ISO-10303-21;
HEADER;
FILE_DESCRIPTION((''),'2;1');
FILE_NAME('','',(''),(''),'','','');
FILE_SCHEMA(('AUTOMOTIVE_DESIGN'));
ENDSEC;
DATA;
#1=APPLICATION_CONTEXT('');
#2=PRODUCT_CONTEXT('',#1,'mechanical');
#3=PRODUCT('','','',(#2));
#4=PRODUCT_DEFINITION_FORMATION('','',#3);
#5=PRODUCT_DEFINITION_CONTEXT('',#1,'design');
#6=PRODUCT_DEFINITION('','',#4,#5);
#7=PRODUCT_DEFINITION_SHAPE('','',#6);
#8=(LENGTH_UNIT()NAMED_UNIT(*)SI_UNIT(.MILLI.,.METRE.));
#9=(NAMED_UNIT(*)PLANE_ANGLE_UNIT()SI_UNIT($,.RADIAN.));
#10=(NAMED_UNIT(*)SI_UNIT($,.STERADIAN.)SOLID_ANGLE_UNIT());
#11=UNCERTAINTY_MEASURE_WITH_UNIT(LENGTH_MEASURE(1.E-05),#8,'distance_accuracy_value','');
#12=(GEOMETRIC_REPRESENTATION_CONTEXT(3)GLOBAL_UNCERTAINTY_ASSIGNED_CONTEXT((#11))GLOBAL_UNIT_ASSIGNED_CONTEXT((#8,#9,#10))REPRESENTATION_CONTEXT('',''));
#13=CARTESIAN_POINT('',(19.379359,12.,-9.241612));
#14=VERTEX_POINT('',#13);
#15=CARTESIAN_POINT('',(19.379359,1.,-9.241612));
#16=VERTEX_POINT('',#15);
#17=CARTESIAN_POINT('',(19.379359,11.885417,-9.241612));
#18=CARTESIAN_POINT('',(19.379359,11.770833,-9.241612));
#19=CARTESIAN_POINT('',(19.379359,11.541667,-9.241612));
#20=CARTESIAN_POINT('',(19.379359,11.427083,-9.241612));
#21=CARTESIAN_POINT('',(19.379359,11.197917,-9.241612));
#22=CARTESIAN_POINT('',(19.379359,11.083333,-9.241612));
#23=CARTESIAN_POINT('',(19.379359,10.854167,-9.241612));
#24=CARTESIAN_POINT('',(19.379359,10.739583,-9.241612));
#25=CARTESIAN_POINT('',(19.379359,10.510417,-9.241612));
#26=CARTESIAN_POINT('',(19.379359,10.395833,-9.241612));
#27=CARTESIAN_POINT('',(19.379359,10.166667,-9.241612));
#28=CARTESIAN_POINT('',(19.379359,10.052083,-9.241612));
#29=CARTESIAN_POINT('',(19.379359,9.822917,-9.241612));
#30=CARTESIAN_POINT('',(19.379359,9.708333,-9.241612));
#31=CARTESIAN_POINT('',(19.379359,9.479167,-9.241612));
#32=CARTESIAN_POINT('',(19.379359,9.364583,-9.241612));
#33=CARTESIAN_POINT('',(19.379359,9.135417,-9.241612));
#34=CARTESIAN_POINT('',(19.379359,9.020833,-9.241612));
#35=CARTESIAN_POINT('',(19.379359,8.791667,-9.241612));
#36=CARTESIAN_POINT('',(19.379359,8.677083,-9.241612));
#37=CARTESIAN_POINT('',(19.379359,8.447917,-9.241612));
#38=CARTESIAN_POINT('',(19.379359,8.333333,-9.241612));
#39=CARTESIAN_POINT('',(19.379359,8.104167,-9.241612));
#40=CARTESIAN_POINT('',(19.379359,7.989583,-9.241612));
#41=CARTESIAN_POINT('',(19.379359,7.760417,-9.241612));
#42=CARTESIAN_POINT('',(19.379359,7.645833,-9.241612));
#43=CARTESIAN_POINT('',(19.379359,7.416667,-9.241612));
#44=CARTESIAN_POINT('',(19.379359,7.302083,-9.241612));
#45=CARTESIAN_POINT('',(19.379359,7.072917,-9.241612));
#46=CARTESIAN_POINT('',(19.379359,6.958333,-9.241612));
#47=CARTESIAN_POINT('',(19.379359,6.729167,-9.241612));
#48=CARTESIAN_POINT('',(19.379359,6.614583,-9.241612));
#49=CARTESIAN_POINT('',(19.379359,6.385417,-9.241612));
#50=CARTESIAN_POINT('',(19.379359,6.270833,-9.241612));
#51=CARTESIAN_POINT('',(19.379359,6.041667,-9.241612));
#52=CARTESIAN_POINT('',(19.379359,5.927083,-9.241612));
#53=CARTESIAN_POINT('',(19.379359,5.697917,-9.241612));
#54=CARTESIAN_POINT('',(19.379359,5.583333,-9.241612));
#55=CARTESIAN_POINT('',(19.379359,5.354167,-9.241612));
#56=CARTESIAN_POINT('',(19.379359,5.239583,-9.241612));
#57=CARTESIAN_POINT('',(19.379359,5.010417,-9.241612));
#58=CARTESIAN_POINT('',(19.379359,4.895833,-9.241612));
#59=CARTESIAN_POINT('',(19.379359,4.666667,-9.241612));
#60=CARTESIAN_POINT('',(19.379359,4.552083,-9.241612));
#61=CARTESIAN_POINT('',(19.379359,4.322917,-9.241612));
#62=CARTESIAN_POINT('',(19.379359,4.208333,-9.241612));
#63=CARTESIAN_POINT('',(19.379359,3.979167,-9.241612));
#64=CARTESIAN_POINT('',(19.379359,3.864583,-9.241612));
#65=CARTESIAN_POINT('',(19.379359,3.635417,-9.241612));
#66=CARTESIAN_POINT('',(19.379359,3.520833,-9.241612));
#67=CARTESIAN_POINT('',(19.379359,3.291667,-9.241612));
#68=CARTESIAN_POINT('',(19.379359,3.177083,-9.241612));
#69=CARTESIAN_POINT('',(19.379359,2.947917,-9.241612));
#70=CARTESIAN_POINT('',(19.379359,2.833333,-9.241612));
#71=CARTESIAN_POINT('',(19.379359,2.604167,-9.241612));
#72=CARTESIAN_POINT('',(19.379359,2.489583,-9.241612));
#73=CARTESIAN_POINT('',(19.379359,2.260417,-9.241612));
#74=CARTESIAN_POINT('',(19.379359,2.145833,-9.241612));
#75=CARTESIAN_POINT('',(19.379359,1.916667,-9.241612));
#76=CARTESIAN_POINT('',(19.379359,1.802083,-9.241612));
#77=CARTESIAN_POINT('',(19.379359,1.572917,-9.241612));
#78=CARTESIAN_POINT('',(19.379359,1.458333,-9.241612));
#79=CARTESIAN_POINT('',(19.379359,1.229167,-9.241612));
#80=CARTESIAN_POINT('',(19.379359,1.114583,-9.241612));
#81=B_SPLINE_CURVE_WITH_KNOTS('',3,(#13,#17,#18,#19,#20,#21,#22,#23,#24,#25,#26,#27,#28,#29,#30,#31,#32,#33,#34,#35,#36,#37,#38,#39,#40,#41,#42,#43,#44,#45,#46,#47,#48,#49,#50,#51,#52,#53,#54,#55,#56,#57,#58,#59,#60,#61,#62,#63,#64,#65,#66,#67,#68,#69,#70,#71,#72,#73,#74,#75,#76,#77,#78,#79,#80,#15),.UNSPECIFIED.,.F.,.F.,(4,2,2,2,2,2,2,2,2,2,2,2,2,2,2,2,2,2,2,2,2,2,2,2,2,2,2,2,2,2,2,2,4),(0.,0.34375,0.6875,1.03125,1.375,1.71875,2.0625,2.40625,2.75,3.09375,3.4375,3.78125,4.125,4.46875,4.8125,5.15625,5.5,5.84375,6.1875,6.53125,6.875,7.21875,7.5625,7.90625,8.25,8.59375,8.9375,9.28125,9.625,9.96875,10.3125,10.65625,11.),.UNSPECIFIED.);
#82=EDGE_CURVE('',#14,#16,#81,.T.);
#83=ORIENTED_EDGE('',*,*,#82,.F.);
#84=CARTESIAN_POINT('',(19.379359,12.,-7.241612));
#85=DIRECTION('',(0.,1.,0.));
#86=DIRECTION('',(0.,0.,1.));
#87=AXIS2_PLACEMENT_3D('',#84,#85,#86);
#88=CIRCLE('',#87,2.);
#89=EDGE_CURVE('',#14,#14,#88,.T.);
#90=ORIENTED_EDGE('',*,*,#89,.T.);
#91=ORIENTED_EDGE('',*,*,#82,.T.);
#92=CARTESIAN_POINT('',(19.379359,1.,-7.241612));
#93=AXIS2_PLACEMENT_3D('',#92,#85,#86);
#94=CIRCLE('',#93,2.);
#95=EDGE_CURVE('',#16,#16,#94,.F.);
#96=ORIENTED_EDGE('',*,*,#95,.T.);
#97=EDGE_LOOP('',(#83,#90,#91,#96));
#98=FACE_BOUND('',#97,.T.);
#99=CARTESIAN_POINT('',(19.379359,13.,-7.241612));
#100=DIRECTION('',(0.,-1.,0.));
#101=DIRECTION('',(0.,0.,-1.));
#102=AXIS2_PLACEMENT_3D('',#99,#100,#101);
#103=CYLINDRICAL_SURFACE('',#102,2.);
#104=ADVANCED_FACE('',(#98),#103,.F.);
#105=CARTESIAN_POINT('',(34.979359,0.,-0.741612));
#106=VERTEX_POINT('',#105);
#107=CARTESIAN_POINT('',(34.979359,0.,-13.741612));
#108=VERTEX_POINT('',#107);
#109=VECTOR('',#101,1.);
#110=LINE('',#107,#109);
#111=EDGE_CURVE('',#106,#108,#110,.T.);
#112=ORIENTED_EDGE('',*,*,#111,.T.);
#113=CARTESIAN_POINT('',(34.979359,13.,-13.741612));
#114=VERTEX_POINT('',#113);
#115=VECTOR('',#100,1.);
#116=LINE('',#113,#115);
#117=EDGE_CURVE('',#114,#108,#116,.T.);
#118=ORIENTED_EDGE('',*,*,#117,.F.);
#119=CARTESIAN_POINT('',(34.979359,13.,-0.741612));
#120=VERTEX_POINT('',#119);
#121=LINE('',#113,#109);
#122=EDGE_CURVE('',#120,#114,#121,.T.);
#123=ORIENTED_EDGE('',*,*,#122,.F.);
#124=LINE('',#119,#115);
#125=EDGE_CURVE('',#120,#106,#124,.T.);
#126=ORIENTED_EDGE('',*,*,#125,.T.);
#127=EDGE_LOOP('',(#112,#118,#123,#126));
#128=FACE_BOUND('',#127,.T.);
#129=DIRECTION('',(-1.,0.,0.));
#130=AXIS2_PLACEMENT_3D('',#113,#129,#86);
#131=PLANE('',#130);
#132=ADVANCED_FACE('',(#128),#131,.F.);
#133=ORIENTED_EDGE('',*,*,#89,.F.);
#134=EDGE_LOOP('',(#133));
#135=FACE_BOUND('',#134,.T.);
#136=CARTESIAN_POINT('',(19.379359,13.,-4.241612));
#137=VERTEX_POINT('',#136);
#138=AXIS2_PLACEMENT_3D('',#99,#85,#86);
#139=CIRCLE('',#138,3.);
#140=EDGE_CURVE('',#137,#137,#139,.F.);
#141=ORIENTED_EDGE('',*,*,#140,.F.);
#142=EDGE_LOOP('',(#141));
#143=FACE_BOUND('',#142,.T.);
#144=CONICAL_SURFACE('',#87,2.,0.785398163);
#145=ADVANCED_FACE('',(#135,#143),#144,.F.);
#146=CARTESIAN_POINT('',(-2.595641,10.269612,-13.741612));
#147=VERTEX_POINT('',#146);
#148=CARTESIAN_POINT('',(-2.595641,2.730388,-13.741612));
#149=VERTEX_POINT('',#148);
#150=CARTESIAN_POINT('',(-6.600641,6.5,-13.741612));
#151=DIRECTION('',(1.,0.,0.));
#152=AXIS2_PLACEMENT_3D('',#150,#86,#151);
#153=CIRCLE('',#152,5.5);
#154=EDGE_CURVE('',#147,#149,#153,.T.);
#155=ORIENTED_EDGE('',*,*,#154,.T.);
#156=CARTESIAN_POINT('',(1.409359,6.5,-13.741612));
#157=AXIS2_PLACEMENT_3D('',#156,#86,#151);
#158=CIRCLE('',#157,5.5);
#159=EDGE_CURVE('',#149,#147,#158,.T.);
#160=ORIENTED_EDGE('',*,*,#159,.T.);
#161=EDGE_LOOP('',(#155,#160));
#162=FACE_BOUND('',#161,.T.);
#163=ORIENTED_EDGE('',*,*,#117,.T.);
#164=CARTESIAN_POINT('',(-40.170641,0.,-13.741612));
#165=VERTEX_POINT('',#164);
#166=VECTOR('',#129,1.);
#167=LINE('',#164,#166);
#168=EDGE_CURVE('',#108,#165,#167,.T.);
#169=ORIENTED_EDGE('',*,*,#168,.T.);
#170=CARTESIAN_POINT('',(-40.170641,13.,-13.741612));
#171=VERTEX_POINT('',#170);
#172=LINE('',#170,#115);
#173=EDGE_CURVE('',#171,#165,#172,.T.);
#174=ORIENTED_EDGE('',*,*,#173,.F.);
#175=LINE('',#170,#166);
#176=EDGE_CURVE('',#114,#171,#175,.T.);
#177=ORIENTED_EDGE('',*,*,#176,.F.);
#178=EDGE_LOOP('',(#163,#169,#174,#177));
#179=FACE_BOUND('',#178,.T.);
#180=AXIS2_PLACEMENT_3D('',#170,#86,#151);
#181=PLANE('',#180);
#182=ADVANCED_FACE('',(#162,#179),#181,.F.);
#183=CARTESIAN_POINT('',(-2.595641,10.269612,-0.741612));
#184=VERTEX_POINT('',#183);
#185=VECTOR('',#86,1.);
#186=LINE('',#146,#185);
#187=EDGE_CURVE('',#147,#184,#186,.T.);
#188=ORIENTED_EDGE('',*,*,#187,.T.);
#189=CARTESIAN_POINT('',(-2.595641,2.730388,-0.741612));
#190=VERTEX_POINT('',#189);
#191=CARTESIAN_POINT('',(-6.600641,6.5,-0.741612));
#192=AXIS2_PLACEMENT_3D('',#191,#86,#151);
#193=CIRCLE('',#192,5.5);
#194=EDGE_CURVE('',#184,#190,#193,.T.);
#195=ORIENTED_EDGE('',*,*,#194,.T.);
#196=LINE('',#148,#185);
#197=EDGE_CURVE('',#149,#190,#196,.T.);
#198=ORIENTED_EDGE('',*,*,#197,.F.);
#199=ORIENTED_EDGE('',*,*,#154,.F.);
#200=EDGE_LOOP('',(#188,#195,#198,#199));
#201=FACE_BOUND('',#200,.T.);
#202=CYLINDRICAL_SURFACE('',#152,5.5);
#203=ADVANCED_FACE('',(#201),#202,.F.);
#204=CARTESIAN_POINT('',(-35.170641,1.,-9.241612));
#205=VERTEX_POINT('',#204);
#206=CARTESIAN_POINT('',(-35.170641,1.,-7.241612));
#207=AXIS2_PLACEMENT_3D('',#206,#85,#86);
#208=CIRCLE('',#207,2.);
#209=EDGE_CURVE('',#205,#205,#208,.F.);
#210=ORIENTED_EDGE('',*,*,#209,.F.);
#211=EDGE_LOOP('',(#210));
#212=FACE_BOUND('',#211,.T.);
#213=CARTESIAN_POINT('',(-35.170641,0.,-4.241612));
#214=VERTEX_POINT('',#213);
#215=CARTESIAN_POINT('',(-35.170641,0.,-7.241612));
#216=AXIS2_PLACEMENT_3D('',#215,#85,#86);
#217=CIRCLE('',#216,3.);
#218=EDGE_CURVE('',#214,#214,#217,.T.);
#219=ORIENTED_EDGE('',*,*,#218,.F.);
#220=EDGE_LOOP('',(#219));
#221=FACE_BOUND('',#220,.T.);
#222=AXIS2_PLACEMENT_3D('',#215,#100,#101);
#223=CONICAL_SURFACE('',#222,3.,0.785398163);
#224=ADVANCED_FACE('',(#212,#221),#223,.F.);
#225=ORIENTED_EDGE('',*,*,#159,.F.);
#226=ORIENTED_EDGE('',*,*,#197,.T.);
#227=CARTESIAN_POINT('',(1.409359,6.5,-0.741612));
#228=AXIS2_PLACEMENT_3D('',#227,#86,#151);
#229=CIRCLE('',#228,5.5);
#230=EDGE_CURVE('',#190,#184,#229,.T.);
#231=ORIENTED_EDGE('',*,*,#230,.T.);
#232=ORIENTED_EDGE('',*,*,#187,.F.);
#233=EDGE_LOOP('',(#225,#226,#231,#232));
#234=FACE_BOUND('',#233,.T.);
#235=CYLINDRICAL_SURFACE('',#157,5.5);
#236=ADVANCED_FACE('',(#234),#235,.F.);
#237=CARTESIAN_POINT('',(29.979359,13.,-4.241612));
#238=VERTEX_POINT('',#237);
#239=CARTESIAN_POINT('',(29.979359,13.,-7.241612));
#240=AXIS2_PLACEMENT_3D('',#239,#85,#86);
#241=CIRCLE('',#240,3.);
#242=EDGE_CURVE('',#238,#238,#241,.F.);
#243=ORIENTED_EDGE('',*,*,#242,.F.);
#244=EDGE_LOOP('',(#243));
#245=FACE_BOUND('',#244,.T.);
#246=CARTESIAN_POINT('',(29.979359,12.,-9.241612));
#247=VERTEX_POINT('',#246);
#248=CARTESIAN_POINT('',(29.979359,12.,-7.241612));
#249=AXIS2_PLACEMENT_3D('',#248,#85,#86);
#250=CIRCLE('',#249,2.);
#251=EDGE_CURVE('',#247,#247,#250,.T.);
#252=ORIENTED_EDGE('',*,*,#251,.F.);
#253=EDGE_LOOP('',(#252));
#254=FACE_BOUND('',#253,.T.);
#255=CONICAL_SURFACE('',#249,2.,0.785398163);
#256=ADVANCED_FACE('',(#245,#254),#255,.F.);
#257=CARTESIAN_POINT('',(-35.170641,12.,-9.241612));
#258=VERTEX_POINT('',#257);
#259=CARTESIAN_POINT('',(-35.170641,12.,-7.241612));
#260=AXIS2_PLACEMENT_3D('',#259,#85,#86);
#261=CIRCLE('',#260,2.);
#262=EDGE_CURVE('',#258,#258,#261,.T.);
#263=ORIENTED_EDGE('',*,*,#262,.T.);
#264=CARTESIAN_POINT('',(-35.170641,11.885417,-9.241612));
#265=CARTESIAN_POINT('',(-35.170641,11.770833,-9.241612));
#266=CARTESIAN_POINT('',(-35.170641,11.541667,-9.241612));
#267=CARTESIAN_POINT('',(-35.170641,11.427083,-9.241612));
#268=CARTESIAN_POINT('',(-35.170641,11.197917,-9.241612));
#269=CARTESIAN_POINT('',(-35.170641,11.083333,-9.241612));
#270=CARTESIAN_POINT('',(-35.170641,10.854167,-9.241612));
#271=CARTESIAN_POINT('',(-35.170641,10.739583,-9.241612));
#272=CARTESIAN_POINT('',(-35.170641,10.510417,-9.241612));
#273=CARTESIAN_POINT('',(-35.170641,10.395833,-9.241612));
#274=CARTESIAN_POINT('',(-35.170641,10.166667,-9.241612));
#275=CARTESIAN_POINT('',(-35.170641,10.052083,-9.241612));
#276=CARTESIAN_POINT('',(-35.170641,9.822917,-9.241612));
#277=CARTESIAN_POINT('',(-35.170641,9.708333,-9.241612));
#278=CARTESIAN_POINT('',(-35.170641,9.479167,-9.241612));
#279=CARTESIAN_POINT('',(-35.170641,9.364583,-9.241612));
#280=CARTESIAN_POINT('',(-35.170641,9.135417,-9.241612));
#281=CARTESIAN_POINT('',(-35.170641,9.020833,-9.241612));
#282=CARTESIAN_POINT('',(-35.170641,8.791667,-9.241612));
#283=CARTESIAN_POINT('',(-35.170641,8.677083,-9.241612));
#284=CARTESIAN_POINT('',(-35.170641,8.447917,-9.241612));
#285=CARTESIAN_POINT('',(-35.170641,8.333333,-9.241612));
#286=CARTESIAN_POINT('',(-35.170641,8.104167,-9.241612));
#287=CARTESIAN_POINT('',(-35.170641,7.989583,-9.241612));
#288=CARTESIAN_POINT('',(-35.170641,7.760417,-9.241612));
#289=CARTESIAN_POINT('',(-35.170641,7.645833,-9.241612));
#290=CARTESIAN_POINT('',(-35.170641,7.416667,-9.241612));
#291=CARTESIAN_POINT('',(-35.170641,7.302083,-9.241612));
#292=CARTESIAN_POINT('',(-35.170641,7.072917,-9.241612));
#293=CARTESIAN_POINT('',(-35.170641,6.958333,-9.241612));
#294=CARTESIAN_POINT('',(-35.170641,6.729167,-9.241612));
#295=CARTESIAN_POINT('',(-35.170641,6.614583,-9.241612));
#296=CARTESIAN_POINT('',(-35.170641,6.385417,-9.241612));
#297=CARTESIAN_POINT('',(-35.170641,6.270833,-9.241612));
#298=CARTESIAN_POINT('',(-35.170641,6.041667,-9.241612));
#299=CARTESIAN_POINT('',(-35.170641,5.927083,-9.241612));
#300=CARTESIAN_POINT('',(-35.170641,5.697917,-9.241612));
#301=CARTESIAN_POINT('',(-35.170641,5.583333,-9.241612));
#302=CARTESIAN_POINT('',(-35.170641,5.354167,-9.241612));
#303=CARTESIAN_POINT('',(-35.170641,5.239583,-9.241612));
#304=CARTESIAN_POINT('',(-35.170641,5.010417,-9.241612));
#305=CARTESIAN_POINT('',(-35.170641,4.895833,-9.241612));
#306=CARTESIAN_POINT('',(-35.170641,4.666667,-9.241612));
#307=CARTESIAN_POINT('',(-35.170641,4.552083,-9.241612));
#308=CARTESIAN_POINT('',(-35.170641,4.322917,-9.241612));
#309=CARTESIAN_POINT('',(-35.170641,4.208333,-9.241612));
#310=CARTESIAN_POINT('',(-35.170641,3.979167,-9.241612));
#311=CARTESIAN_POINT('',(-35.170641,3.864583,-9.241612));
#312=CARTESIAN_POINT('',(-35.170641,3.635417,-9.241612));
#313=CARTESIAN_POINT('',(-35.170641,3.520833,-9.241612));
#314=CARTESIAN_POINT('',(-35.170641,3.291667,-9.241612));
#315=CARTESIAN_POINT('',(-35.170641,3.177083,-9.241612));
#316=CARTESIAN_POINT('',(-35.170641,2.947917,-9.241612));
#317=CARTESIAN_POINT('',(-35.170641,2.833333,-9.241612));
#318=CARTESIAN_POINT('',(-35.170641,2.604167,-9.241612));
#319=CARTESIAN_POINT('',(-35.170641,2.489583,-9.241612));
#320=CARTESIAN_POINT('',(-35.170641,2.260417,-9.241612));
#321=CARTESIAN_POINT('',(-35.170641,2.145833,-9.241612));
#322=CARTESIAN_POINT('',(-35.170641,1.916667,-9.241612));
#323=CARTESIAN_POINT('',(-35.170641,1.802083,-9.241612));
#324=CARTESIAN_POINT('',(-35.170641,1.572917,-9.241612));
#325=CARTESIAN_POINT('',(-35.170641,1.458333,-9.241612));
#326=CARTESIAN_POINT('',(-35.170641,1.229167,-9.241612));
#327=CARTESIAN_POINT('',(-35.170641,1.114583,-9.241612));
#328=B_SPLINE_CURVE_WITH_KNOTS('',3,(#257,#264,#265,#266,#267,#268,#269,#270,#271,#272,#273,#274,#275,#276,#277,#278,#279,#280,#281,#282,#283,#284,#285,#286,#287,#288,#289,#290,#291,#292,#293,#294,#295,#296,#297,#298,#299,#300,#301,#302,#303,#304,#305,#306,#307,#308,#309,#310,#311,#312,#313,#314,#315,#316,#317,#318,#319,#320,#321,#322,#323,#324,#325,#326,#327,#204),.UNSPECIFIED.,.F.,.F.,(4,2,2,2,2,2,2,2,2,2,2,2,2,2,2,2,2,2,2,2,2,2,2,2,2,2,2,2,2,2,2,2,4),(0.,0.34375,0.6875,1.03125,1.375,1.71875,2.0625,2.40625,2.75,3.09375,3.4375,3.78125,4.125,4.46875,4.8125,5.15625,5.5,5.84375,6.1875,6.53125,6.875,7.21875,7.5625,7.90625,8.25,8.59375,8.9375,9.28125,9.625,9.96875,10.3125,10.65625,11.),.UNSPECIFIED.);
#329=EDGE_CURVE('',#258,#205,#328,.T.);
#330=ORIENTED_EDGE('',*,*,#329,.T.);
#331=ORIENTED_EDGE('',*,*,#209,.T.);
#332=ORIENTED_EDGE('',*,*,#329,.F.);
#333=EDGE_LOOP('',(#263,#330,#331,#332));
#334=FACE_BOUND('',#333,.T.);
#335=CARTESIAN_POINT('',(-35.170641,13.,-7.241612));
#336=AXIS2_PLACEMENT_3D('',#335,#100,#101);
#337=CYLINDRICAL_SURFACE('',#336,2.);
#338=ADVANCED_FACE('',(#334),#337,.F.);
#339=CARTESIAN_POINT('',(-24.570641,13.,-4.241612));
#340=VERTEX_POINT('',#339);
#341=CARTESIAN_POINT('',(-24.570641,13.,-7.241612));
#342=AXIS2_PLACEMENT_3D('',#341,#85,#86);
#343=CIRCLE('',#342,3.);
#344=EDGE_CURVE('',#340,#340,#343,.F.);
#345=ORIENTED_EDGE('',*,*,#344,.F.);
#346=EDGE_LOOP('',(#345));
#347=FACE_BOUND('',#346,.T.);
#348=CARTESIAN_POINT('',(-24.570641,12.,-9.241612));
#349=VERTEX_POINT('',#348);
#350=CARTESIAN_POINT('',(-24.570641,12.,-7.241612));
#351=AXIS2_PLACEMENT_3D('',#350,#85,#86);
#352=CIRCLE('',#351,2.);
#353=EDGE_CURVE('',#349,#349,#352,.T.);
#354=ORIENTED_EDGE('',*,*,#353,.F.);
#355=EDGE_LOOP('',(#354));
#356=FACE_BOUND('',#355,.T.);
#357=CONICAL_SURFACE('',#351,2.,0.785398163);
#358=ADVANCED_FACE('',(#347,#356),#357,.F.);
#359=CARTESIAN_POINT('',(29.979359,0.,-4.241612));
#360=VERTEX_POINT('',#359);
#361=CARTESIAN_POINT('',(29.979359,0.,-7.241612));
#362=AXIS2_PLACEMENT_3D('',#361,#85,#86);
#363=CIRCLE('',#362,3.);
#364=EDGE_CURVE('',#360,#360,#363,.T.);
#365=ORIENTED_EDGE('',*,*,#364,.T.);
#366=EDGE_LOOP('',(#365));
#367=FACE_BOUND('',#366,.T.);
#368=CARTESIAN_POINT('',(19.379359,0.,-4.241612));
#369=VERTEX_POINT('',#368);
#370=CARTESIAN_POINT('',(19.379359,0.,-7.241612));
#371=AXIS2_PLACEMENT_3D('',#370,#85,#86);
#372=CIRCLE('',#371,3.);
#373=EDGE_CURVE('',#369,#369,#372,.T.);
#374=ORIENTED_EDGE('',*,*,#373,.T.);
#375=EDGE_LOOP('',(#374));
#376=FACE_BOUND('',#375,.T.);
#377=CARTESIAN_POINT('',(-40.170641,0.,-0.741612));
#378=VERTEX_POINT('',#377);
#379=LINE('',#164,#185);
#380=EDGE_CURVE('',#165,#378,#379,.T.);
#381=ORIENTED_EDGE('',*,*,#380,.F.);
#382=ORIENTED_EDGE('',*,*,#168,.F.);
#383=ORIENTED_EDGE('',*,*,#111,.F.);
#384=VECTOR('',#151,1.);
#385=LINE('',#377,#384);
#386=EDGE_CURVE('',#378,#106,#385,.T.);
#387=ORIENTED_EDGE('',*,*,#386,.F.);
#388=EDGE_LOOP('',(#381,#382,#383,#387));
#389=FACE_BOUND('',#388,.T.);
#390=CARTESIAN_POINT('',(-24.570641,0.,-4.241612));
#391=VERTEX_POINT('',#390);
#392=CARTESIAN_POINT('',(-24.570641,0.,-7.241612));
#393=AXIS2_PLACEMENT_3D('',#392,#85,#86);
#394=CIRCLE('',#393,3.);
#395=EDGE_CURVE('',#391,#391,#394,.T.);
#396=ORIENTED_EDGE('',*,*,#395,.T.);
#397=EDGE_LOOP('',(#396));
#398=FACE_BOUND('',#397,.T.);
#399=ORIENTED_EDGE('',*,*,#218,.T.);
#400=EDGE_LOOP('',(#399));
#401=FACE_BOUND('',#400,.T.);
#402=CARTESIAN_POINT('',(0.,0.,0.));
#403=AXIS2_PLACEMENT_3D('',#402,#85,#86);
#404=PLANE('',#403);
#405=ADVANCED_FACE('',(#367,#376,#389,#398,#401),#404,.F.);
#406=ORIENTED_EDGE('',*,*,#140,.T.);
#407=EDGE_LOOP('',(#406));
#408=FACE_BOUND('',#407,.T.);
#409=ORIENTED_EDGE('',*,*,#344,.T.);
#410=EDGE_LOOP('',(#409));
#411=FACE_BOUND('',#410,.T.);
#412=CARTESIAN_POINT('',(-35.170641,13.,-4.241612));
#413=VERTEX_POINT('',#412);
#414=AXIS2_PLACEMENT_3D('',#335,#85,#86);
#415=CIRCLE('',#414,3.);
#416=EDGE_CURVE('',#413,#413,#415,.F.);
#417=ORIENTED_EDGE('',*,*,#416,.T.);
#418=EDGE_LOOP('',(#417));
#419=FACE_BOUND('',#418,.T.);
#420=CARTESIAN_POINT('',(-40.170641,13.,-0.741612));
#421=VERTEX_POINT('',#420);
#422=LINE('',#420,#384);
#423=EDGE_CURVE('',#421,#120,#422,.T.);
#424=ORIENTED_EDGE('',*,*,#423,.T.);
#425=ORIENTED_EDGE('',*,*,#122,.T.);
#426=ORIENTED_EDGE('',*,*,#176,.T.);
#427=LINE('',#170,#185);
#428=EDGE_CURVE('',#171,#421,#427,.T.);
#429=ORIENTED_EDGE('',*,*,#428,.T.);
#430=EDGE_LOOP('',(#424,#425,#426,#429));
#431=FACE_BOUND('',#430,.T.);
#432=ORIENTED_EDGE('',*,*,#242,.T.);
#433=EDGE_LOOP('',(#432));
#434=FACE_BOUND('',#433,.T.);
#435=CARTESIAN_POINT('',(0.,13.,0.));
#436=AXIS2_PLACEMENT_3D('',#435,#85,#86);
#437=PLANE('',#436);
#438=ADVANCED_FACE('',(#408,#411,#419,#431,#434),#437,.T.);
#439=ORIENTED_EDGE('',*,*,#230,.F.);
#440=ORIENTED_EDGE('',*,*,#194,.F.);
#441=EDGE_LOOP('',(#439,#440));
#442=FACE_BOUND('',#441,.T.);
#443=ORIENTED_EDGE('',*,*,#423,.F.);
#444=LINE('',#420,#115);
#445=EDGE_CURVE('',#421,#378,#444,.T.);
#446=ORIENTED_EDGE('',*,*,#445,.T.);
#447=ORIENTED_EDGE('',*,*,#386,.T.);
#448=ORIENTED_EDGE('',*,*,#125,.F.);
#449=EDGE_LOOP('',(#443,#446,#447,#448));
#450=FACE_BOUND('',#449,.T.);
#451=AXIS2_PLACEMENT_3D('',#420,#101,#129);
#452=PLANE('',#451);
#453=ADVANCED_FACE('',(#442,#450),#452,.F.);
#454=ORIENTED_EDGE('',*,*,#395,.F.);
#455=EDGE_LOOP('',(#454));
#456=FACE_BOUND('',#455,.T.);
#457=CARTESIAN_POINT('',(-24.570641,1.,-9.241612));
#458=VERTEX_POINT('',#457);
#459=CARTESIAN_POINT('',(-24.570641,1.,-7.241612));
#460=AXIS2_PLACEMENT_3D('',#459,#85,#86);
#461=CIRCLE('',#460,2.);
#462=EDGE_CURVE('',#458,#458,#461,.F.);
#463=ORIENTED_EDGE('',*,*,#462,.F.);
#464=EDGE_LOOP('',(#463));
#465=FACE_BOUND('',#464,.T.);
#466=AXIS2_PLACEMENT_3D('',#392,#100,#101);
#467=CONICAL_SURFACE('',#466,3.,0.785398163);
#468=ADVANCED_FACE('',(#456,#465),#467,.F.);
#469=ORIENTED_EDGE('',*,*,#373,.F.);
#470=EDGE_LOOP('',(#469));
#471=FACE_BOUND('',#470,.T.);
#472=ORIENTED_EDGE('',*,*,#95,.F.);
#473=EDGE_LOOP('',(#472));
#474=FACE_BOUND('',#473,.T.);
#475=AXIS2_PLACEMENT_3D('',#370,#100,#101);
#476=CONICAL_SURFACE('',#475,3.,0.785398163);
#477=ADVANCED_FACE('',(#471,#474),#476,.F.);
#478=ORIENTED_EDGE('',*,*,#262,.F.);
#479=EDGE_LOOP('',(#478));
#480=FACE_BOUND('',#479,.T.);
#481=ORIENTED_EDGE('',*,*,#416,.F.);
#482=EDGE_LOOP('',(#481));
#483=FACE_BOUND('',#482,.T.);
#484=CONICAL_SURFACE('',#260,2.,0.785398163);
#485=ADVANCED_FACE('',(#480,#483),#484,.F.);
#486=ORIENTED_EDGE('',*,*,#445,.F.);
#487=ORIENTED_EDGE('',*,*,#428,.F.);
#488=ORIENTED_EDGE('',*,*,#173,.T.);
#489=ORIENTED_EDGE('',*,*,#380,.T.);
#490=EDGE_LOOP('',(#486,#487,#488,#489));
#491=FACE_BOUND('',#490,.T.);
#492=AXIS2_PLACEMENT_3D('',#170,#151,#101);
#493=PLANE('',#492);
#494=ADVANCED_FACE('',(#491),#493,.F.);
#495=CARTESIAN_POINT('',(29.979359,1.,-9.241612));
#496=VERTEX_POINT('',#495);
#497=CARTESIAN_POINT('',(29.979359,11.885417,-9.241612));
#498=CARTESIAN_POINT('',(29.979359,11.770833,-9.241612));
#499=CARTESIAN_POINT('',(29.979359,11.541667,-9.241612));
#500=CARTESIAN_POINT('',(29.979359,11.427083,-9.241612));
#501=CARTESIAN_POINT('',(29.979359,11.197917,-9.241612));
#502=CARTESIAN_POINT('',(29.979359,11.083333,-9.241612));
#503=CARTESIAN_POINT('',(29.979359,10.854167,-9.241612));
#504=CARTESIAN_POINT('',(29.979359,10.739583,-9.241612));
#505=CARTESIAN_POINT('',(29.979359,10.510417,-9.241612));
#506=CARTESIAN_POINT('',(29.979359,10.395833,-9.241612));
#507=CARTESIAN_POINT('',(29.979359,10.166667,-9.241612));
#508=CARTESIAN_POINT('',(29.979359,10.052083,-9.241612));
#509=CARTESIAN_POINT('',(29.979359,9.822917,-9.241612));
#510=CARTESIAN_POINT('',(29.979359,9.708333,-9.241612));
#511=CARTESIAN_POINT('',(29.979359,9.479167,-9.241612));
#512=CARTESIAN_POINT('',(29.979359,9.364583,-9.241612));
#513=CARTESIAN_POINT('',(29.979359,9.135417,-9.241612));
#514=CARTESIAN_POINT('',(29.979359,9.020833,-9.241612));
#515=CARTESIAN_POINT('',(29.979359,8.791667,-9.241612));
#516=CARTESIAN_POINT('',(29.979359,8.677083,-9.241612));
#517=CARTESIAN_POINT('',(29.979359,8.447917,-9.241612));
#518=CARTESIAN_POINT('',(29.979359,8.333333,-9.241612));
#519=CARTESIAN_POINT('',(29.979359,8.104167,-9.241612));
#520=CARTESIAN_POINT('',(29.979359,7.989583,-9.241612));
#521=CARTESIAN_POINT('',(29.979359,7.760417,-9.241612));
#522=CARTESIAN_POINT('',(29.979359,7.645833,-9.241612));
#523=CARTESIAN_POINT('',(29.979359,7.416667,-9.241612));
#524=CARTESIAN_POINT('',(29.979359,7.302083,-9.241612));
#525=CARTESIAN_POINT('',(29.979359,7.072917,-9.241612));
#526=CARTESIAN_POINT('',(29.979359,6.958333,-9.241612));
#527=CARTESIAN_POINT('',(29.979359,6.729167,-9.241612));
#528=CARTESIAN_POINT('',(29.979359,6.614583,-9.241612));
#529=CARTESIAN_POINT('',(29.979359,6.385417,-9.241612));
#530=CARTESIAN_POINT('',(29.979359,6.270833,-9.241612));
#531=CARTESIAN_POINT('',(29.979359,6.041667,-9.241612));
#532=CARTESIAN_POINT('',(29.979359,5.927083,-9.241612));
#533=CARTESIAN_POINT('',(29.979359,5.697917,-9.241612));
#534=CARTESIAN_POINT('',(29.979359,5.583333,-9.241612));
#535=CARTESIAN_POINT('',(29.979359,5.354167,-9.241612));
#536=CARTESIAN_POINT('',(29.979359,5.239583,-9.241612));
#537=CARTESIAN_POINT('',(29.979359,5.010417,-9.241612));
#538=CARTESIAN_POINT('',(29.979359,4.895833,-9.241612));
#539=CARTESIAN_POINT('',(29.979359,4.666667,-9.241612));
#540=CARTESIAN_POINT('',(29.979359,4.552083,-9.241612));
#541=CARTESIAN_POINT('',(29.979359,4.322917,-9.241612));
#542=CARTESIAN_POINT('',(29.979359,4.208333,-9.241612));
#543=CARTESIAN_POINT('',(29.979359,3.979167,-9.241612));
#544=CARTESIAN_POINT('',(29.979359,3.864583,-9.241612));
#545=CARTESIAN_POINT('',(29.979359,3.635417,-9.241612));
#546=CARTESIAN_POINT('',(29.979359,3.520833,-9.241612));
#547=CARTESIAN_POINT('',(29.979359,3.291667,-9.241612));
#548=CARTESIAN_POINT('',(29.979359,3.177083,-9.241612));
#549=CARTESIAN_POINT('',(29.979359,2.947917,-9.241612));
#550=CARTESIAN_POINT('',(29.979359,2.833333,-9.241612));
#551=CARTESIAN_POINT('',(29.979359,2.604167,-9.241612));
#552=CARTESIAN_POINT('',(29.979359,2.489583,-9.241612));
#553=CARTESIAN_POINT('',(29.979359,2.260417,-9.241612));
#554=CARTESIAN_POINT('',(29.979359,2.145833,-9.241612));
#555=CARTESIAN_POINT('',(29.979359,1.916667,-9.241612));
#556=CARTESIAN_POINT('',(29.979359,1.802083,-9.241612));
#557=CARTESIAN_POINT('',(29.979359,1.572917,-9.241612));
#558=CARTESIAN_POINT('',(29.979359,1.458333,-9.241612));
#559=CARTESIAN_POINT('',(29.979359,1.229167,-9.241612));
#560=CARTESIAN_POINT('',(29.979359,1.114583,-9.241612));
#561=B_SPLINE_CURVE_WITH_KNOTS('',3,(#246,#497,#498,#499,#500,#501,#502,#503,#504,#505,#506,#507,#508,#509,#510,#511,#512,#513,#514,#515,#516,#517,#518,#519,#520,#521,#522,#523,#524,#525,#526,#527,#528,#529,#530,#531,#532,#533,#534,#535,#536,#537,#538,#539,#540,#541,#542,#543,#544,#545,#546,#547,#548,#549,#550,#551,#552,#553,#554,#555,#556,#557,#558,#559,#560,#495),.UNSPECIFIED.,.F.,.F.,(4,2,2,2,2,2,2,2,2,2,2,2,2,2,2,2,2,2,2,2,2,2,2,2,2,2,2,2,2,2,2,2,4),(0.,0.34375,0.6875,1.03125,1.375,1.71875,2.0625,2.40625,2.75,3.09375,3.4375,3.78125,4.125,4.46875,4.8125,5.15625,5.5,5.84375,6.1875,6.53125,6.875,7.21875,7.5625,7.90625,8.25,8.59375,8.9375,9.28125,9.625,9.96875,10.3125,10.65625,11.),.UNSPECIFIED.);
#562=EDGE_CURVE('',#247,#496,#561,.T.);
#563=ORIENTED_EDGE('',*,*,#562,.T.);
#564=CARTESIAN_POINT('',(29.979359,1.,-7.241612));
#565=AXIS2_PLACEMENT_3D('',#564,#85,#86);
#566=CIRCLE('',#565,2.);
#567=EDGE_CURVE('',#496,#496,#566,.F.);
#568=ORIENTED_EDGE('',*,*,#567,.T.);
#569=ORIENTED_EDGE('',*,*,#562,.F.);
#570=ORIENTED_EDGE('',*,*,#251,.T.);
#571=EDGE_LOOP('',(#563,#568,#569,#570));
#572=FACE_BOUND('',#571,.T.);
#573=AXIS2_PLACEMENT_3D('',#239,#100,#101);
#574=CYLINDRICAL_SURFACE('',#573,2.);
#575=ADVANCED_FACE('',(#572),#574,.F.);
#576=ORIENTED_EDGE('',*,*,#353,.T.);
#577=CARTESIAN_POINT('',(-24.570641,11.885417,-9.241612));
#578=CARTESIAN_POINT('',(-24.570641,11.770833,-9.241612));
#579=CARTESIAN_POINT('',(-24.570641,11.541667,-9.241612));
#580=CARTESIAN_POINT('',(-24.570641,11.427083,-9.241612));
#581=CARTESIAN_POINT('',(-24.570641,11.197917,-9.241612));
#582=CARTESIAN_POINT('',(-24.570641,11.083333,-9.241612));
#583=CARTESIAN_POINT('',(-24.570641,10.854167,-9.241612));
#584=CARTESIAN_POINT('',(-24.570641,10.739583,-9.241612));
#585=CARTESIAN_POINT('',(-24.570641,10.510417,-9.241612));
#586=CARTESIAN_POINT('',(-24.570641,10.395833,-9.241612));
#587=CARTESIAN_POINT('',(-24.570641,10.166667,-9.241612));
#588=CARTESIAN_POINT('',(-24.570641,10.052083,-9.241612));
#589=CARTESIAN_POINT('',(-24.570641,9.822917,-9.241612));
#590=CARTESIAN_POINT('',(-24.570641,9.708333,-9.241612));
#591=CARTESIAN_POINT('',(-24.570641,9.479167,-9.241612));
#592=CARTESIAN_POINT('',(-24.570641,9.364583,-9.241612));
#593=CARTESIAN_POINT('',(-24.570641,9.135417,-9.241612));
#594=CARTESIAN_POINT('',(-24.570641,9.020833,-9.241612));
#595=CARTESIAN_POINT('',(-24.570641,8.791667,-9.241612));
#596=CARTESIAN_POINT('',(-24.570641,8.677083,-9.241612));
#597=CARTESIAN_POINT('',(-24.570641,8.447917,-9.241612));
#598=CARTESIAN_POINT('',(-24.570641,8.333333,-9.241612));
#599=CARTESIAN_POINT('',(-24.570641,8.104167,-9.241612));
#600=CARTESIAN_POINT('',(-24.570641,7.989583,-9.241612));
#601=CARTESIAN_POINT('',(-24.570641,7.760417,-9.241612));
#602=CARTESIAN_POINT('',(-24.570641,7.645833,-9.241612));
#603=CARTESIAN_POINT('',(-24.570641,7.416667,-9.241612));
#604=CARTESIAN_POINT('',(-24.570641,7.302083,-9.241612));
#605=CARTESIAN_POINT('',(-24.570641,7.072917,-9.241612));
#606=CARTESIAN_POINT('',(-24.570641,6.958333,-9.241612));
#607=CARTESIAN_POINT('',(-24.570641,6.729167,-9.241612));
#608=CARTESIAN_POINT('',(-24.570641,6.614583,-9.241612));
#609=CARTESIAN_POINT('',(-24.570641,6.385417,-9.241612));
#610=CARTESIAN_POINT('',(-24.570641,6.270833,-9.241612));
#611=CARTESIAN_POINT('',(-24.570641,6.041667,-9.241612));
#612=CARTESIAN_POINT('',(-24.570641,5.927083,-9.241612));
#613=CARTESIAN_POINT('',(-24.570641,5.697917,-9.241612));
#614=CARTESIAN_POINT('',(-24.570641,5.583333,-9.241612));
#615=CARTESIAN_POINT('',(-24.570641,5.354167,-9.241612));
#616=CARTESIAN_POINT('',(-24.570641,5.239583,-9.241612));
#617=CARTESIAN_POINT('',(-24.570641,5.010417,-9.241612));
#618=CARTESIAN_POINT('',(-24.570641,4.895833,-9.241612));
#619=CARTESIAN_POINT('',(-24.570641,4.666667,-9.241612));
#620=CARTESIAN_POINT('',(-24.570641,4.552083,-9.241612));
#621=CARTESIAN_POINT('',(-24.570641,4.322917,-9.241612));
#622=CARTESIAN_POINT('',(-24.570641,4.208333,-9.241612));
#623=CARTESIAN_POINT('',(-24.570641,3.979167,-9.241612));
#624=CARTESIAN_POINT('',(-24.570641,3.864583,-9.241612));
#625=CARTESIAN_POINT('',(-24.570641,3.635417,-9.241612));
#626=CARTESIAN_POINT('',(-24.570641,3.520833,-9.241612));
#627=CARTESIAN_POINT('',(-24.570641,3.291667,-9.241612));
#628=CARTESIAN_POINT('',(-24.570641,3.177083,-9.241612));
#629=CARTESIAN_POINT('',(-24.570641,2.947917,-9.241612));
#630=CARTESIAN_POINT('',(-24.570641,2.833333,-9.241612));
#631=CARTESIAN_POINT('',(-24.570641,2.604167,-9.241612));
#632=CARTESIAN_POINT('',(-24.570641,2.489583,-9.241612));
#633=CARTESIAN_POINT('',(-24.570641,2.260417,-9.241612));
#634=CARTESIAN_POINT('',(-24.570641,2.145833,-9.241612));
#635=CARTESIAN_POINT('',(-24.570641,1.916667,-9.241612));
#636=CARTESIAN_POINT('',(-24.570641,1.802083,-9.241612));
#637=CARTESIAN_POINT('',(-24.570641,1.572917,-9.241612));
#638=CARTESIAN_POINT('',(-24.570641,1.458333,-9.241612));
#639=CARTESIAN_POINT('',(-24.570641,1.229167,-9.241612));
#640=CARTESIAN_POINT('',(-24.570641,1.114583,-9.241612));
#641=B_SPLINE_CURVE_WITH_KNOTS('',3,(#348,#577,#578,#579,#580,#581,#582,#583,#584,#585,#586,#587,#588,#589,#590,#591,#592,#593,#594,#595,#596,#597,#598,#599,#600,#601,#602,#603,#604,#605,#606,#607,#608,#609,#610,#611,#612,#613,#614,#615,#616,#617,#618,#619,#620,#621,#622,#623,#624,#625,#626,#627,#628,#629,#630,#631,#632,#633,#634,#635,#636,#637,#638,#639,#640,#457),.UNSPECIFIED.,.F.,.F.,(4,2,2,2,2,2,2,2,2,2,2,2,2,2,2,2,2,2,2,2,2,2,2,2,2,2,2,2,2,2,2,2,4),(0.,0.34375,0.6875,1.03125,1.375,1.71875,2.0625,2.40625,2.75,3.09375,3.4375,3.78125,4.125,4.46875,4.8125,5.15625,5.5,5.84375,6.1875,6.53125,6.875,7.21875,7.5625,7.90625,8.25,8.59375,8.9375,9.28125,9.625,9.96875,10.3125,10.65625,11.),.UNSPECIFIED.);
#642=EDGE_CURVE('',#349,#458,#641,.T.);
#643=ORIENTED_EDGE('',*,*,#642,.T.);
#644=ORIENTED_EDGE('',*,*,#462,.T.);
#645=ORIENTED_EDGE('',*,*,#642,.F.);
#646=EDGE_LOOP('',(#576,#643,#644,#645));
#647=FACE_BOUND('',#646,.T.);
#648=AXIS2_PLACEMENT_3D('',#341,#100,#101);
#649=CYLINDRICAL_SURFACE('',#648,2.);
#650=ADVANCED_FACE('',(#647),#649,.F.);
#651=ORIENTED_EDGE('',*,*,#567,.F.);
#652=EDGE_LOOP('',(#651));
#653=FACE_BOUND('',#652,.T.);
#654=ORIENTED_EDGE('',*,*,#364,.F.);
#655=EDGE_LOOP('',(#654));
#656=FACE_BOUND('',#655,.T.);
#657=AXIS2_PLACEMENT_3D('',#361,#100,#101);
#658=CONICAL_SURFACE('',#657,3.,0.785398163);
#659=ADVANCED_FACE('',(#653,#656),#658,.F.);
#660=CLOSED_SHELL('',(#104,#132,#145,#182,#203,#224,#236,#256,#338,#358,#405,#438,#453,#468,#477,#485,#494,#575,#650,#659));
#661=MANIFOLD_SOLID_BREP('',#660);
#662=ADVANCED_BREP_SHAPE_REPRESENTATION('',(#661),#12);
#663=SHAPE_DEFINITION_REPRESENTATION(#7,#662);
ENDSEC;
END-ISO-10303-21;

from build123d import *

# Parameters (mm, degrees)
SKETCH1_W           = 75.15
SKETCH1_H           = 13
SKETCH1_R           = 2
BOSS_EXTRUDE1_DEPTH = 13
CHAMFER1_SIZE       = 1
CHAMFER2_SIZE       = 1
CUT_EXTRUDE1_DEPTH  = 13


with BuildPart() as part:
    # Sketch1 → Boss-Extrude1 (new body)
    with BuildSketch(Plane(origin=(0, 0, 0), x_dir=(1, 0, 0), z_dir=(0, 1, 0))):
        with Locations((-2.595641447, 7.241611842)):
            Rectangle(SKETCH1_W, SKETCH1_H)
        with Locations(Location((29.979358553, 7.241611842, 0), (0, 0, 90))):
            Circle(SKETCH1_R, mode=Mode.SUBTRACT)
        with Locations(Location((19.379358553, 7.241611842, 0), (0, 0, 90))):
            Circle(SKETCH1_R, mode=Mode.SUBTRACT)
        with Locations(Location((-35.170641447, 7.241611842, 0), (0, 0, 90))):
            Circle(SKETCH1_R, mode=Mode.SUBTRACT)
        with Locations(Location((-24.570641447, 7.241611842, 0), (0, 0, 90))):
            Circle(SKETCH1_R, mode=Mode.SUBTRACT)
    extrude(amount=BOSS_EXTRUDE1_DEPTH)

    # Chamfer1
    chamfer1_edges = [part.edges().sort_by_distance(p)[0] for p in [
        (19.379358553, 0, -5.241611842),
    ]]
    chamfer(chamfer1_edges, length=CHAMFER1_SIZE)

    # Chamfer2
    chamfer2_edges = [part.edges().sort_by_distance(p)[0] for p in [
        (29.979358553, 0, -5.241611842),
        (29.979358553, 13, -5.241611842),
        (19.379358553, 13, -5.241611842),
        (-35.170641447, 0, -5.241611842),
        (-35.170641447, 13, -5.241611842),
        (-24.570641447, 0, -5.241611842),
        (-24.570641447, 13, -5.241611842),
    ]]
    chamfer(chamfer2_edges, length=CHAMFER2_SIZE)

    # Sketch2 → Cut-Extrude1 (cut)
    with BuildSketch(Plane.XY.offset(-0.741611842)):
        with BuildLine():
            ThreePointArc((-2.595641447, 10.269612049), (-1.48803448, 8.52762176), (-1.100641447, 6.5))
            Line((-1.100641447, 6.5), (6.909358553, 6.5))
            ThreePointArc((6.909358553, 6.5), (3.436980312, 11.612606967), (-2.595641447, 10.269612049))
        make_face()
        with BuildLine():
            ThreePointArc((-2.595641447, 2.730387951), (-1.48803448, 4.47237824), (-1.100641447, 6.5))
            Line((-1.100641447, 6.5), (-4.090641447, 6.5))
            ThreePointArc((-4.090641447, 6.5), (-3.703248414, 4.47237824), (-2.595641447, 2.730387951))
        make_face()
        with BuildLine():
            Line((-4.090641447, 6.5), (-1.100641447, 6.5))
            ThreePointArc((-1.100641447, 6.5), (-1.48803448, 8.52762176), (-2.595641447, 10.269612049))
            ThreePointArc((-2.595641447, 10.269612049), (-3.703248414, 8.52762176), (-4.090641447, 6.5))
        make_face()
        with BuildLine():
            Line((6.909358553, 6.5), (-1.100641447, 6.5))
            ThreePointArc((-1.100641447, 6.5), (-1.48803448, 4.47237824), (-2.595641447, 2.730387951))
            ThreePointArc((-2.595641447, 2.730387951), (3.436980312, 1.387393033), (6.909358553, 6.5))
        make_face()
        with BuildLine():
            ThreePointArc((-2.595641447, 2.730387951), (-3.703248414, 4.47237824), (-4.090641447, 6.5))
            Line((-4.090641447, 6.5), (-12.100641447, 6.5))
            ThreePointArc((-12.100641447, 6.5), (-8.628263207, 1.387393033), (-2.595641447, 2.730387951))
        make_face()
        with BuildLine():
            Line((-12.100641447, 6.5), (-4.090641447, 6.5))
            ThreePointArc((-4.090641447, 6.5), (-3.703248414, 8.52762176), (-2.595641447, 10.269612049))
            ThreePointArc((-2.595641447, 10.269612049), (-8.628263207, 11.612606967), (-12.100641447, 6.5))
        make_face()
    extrude(amount=-CUT_EXTRUDE1_DEPTH, mode=Mode.SUBTRACT)


solid = part.part
